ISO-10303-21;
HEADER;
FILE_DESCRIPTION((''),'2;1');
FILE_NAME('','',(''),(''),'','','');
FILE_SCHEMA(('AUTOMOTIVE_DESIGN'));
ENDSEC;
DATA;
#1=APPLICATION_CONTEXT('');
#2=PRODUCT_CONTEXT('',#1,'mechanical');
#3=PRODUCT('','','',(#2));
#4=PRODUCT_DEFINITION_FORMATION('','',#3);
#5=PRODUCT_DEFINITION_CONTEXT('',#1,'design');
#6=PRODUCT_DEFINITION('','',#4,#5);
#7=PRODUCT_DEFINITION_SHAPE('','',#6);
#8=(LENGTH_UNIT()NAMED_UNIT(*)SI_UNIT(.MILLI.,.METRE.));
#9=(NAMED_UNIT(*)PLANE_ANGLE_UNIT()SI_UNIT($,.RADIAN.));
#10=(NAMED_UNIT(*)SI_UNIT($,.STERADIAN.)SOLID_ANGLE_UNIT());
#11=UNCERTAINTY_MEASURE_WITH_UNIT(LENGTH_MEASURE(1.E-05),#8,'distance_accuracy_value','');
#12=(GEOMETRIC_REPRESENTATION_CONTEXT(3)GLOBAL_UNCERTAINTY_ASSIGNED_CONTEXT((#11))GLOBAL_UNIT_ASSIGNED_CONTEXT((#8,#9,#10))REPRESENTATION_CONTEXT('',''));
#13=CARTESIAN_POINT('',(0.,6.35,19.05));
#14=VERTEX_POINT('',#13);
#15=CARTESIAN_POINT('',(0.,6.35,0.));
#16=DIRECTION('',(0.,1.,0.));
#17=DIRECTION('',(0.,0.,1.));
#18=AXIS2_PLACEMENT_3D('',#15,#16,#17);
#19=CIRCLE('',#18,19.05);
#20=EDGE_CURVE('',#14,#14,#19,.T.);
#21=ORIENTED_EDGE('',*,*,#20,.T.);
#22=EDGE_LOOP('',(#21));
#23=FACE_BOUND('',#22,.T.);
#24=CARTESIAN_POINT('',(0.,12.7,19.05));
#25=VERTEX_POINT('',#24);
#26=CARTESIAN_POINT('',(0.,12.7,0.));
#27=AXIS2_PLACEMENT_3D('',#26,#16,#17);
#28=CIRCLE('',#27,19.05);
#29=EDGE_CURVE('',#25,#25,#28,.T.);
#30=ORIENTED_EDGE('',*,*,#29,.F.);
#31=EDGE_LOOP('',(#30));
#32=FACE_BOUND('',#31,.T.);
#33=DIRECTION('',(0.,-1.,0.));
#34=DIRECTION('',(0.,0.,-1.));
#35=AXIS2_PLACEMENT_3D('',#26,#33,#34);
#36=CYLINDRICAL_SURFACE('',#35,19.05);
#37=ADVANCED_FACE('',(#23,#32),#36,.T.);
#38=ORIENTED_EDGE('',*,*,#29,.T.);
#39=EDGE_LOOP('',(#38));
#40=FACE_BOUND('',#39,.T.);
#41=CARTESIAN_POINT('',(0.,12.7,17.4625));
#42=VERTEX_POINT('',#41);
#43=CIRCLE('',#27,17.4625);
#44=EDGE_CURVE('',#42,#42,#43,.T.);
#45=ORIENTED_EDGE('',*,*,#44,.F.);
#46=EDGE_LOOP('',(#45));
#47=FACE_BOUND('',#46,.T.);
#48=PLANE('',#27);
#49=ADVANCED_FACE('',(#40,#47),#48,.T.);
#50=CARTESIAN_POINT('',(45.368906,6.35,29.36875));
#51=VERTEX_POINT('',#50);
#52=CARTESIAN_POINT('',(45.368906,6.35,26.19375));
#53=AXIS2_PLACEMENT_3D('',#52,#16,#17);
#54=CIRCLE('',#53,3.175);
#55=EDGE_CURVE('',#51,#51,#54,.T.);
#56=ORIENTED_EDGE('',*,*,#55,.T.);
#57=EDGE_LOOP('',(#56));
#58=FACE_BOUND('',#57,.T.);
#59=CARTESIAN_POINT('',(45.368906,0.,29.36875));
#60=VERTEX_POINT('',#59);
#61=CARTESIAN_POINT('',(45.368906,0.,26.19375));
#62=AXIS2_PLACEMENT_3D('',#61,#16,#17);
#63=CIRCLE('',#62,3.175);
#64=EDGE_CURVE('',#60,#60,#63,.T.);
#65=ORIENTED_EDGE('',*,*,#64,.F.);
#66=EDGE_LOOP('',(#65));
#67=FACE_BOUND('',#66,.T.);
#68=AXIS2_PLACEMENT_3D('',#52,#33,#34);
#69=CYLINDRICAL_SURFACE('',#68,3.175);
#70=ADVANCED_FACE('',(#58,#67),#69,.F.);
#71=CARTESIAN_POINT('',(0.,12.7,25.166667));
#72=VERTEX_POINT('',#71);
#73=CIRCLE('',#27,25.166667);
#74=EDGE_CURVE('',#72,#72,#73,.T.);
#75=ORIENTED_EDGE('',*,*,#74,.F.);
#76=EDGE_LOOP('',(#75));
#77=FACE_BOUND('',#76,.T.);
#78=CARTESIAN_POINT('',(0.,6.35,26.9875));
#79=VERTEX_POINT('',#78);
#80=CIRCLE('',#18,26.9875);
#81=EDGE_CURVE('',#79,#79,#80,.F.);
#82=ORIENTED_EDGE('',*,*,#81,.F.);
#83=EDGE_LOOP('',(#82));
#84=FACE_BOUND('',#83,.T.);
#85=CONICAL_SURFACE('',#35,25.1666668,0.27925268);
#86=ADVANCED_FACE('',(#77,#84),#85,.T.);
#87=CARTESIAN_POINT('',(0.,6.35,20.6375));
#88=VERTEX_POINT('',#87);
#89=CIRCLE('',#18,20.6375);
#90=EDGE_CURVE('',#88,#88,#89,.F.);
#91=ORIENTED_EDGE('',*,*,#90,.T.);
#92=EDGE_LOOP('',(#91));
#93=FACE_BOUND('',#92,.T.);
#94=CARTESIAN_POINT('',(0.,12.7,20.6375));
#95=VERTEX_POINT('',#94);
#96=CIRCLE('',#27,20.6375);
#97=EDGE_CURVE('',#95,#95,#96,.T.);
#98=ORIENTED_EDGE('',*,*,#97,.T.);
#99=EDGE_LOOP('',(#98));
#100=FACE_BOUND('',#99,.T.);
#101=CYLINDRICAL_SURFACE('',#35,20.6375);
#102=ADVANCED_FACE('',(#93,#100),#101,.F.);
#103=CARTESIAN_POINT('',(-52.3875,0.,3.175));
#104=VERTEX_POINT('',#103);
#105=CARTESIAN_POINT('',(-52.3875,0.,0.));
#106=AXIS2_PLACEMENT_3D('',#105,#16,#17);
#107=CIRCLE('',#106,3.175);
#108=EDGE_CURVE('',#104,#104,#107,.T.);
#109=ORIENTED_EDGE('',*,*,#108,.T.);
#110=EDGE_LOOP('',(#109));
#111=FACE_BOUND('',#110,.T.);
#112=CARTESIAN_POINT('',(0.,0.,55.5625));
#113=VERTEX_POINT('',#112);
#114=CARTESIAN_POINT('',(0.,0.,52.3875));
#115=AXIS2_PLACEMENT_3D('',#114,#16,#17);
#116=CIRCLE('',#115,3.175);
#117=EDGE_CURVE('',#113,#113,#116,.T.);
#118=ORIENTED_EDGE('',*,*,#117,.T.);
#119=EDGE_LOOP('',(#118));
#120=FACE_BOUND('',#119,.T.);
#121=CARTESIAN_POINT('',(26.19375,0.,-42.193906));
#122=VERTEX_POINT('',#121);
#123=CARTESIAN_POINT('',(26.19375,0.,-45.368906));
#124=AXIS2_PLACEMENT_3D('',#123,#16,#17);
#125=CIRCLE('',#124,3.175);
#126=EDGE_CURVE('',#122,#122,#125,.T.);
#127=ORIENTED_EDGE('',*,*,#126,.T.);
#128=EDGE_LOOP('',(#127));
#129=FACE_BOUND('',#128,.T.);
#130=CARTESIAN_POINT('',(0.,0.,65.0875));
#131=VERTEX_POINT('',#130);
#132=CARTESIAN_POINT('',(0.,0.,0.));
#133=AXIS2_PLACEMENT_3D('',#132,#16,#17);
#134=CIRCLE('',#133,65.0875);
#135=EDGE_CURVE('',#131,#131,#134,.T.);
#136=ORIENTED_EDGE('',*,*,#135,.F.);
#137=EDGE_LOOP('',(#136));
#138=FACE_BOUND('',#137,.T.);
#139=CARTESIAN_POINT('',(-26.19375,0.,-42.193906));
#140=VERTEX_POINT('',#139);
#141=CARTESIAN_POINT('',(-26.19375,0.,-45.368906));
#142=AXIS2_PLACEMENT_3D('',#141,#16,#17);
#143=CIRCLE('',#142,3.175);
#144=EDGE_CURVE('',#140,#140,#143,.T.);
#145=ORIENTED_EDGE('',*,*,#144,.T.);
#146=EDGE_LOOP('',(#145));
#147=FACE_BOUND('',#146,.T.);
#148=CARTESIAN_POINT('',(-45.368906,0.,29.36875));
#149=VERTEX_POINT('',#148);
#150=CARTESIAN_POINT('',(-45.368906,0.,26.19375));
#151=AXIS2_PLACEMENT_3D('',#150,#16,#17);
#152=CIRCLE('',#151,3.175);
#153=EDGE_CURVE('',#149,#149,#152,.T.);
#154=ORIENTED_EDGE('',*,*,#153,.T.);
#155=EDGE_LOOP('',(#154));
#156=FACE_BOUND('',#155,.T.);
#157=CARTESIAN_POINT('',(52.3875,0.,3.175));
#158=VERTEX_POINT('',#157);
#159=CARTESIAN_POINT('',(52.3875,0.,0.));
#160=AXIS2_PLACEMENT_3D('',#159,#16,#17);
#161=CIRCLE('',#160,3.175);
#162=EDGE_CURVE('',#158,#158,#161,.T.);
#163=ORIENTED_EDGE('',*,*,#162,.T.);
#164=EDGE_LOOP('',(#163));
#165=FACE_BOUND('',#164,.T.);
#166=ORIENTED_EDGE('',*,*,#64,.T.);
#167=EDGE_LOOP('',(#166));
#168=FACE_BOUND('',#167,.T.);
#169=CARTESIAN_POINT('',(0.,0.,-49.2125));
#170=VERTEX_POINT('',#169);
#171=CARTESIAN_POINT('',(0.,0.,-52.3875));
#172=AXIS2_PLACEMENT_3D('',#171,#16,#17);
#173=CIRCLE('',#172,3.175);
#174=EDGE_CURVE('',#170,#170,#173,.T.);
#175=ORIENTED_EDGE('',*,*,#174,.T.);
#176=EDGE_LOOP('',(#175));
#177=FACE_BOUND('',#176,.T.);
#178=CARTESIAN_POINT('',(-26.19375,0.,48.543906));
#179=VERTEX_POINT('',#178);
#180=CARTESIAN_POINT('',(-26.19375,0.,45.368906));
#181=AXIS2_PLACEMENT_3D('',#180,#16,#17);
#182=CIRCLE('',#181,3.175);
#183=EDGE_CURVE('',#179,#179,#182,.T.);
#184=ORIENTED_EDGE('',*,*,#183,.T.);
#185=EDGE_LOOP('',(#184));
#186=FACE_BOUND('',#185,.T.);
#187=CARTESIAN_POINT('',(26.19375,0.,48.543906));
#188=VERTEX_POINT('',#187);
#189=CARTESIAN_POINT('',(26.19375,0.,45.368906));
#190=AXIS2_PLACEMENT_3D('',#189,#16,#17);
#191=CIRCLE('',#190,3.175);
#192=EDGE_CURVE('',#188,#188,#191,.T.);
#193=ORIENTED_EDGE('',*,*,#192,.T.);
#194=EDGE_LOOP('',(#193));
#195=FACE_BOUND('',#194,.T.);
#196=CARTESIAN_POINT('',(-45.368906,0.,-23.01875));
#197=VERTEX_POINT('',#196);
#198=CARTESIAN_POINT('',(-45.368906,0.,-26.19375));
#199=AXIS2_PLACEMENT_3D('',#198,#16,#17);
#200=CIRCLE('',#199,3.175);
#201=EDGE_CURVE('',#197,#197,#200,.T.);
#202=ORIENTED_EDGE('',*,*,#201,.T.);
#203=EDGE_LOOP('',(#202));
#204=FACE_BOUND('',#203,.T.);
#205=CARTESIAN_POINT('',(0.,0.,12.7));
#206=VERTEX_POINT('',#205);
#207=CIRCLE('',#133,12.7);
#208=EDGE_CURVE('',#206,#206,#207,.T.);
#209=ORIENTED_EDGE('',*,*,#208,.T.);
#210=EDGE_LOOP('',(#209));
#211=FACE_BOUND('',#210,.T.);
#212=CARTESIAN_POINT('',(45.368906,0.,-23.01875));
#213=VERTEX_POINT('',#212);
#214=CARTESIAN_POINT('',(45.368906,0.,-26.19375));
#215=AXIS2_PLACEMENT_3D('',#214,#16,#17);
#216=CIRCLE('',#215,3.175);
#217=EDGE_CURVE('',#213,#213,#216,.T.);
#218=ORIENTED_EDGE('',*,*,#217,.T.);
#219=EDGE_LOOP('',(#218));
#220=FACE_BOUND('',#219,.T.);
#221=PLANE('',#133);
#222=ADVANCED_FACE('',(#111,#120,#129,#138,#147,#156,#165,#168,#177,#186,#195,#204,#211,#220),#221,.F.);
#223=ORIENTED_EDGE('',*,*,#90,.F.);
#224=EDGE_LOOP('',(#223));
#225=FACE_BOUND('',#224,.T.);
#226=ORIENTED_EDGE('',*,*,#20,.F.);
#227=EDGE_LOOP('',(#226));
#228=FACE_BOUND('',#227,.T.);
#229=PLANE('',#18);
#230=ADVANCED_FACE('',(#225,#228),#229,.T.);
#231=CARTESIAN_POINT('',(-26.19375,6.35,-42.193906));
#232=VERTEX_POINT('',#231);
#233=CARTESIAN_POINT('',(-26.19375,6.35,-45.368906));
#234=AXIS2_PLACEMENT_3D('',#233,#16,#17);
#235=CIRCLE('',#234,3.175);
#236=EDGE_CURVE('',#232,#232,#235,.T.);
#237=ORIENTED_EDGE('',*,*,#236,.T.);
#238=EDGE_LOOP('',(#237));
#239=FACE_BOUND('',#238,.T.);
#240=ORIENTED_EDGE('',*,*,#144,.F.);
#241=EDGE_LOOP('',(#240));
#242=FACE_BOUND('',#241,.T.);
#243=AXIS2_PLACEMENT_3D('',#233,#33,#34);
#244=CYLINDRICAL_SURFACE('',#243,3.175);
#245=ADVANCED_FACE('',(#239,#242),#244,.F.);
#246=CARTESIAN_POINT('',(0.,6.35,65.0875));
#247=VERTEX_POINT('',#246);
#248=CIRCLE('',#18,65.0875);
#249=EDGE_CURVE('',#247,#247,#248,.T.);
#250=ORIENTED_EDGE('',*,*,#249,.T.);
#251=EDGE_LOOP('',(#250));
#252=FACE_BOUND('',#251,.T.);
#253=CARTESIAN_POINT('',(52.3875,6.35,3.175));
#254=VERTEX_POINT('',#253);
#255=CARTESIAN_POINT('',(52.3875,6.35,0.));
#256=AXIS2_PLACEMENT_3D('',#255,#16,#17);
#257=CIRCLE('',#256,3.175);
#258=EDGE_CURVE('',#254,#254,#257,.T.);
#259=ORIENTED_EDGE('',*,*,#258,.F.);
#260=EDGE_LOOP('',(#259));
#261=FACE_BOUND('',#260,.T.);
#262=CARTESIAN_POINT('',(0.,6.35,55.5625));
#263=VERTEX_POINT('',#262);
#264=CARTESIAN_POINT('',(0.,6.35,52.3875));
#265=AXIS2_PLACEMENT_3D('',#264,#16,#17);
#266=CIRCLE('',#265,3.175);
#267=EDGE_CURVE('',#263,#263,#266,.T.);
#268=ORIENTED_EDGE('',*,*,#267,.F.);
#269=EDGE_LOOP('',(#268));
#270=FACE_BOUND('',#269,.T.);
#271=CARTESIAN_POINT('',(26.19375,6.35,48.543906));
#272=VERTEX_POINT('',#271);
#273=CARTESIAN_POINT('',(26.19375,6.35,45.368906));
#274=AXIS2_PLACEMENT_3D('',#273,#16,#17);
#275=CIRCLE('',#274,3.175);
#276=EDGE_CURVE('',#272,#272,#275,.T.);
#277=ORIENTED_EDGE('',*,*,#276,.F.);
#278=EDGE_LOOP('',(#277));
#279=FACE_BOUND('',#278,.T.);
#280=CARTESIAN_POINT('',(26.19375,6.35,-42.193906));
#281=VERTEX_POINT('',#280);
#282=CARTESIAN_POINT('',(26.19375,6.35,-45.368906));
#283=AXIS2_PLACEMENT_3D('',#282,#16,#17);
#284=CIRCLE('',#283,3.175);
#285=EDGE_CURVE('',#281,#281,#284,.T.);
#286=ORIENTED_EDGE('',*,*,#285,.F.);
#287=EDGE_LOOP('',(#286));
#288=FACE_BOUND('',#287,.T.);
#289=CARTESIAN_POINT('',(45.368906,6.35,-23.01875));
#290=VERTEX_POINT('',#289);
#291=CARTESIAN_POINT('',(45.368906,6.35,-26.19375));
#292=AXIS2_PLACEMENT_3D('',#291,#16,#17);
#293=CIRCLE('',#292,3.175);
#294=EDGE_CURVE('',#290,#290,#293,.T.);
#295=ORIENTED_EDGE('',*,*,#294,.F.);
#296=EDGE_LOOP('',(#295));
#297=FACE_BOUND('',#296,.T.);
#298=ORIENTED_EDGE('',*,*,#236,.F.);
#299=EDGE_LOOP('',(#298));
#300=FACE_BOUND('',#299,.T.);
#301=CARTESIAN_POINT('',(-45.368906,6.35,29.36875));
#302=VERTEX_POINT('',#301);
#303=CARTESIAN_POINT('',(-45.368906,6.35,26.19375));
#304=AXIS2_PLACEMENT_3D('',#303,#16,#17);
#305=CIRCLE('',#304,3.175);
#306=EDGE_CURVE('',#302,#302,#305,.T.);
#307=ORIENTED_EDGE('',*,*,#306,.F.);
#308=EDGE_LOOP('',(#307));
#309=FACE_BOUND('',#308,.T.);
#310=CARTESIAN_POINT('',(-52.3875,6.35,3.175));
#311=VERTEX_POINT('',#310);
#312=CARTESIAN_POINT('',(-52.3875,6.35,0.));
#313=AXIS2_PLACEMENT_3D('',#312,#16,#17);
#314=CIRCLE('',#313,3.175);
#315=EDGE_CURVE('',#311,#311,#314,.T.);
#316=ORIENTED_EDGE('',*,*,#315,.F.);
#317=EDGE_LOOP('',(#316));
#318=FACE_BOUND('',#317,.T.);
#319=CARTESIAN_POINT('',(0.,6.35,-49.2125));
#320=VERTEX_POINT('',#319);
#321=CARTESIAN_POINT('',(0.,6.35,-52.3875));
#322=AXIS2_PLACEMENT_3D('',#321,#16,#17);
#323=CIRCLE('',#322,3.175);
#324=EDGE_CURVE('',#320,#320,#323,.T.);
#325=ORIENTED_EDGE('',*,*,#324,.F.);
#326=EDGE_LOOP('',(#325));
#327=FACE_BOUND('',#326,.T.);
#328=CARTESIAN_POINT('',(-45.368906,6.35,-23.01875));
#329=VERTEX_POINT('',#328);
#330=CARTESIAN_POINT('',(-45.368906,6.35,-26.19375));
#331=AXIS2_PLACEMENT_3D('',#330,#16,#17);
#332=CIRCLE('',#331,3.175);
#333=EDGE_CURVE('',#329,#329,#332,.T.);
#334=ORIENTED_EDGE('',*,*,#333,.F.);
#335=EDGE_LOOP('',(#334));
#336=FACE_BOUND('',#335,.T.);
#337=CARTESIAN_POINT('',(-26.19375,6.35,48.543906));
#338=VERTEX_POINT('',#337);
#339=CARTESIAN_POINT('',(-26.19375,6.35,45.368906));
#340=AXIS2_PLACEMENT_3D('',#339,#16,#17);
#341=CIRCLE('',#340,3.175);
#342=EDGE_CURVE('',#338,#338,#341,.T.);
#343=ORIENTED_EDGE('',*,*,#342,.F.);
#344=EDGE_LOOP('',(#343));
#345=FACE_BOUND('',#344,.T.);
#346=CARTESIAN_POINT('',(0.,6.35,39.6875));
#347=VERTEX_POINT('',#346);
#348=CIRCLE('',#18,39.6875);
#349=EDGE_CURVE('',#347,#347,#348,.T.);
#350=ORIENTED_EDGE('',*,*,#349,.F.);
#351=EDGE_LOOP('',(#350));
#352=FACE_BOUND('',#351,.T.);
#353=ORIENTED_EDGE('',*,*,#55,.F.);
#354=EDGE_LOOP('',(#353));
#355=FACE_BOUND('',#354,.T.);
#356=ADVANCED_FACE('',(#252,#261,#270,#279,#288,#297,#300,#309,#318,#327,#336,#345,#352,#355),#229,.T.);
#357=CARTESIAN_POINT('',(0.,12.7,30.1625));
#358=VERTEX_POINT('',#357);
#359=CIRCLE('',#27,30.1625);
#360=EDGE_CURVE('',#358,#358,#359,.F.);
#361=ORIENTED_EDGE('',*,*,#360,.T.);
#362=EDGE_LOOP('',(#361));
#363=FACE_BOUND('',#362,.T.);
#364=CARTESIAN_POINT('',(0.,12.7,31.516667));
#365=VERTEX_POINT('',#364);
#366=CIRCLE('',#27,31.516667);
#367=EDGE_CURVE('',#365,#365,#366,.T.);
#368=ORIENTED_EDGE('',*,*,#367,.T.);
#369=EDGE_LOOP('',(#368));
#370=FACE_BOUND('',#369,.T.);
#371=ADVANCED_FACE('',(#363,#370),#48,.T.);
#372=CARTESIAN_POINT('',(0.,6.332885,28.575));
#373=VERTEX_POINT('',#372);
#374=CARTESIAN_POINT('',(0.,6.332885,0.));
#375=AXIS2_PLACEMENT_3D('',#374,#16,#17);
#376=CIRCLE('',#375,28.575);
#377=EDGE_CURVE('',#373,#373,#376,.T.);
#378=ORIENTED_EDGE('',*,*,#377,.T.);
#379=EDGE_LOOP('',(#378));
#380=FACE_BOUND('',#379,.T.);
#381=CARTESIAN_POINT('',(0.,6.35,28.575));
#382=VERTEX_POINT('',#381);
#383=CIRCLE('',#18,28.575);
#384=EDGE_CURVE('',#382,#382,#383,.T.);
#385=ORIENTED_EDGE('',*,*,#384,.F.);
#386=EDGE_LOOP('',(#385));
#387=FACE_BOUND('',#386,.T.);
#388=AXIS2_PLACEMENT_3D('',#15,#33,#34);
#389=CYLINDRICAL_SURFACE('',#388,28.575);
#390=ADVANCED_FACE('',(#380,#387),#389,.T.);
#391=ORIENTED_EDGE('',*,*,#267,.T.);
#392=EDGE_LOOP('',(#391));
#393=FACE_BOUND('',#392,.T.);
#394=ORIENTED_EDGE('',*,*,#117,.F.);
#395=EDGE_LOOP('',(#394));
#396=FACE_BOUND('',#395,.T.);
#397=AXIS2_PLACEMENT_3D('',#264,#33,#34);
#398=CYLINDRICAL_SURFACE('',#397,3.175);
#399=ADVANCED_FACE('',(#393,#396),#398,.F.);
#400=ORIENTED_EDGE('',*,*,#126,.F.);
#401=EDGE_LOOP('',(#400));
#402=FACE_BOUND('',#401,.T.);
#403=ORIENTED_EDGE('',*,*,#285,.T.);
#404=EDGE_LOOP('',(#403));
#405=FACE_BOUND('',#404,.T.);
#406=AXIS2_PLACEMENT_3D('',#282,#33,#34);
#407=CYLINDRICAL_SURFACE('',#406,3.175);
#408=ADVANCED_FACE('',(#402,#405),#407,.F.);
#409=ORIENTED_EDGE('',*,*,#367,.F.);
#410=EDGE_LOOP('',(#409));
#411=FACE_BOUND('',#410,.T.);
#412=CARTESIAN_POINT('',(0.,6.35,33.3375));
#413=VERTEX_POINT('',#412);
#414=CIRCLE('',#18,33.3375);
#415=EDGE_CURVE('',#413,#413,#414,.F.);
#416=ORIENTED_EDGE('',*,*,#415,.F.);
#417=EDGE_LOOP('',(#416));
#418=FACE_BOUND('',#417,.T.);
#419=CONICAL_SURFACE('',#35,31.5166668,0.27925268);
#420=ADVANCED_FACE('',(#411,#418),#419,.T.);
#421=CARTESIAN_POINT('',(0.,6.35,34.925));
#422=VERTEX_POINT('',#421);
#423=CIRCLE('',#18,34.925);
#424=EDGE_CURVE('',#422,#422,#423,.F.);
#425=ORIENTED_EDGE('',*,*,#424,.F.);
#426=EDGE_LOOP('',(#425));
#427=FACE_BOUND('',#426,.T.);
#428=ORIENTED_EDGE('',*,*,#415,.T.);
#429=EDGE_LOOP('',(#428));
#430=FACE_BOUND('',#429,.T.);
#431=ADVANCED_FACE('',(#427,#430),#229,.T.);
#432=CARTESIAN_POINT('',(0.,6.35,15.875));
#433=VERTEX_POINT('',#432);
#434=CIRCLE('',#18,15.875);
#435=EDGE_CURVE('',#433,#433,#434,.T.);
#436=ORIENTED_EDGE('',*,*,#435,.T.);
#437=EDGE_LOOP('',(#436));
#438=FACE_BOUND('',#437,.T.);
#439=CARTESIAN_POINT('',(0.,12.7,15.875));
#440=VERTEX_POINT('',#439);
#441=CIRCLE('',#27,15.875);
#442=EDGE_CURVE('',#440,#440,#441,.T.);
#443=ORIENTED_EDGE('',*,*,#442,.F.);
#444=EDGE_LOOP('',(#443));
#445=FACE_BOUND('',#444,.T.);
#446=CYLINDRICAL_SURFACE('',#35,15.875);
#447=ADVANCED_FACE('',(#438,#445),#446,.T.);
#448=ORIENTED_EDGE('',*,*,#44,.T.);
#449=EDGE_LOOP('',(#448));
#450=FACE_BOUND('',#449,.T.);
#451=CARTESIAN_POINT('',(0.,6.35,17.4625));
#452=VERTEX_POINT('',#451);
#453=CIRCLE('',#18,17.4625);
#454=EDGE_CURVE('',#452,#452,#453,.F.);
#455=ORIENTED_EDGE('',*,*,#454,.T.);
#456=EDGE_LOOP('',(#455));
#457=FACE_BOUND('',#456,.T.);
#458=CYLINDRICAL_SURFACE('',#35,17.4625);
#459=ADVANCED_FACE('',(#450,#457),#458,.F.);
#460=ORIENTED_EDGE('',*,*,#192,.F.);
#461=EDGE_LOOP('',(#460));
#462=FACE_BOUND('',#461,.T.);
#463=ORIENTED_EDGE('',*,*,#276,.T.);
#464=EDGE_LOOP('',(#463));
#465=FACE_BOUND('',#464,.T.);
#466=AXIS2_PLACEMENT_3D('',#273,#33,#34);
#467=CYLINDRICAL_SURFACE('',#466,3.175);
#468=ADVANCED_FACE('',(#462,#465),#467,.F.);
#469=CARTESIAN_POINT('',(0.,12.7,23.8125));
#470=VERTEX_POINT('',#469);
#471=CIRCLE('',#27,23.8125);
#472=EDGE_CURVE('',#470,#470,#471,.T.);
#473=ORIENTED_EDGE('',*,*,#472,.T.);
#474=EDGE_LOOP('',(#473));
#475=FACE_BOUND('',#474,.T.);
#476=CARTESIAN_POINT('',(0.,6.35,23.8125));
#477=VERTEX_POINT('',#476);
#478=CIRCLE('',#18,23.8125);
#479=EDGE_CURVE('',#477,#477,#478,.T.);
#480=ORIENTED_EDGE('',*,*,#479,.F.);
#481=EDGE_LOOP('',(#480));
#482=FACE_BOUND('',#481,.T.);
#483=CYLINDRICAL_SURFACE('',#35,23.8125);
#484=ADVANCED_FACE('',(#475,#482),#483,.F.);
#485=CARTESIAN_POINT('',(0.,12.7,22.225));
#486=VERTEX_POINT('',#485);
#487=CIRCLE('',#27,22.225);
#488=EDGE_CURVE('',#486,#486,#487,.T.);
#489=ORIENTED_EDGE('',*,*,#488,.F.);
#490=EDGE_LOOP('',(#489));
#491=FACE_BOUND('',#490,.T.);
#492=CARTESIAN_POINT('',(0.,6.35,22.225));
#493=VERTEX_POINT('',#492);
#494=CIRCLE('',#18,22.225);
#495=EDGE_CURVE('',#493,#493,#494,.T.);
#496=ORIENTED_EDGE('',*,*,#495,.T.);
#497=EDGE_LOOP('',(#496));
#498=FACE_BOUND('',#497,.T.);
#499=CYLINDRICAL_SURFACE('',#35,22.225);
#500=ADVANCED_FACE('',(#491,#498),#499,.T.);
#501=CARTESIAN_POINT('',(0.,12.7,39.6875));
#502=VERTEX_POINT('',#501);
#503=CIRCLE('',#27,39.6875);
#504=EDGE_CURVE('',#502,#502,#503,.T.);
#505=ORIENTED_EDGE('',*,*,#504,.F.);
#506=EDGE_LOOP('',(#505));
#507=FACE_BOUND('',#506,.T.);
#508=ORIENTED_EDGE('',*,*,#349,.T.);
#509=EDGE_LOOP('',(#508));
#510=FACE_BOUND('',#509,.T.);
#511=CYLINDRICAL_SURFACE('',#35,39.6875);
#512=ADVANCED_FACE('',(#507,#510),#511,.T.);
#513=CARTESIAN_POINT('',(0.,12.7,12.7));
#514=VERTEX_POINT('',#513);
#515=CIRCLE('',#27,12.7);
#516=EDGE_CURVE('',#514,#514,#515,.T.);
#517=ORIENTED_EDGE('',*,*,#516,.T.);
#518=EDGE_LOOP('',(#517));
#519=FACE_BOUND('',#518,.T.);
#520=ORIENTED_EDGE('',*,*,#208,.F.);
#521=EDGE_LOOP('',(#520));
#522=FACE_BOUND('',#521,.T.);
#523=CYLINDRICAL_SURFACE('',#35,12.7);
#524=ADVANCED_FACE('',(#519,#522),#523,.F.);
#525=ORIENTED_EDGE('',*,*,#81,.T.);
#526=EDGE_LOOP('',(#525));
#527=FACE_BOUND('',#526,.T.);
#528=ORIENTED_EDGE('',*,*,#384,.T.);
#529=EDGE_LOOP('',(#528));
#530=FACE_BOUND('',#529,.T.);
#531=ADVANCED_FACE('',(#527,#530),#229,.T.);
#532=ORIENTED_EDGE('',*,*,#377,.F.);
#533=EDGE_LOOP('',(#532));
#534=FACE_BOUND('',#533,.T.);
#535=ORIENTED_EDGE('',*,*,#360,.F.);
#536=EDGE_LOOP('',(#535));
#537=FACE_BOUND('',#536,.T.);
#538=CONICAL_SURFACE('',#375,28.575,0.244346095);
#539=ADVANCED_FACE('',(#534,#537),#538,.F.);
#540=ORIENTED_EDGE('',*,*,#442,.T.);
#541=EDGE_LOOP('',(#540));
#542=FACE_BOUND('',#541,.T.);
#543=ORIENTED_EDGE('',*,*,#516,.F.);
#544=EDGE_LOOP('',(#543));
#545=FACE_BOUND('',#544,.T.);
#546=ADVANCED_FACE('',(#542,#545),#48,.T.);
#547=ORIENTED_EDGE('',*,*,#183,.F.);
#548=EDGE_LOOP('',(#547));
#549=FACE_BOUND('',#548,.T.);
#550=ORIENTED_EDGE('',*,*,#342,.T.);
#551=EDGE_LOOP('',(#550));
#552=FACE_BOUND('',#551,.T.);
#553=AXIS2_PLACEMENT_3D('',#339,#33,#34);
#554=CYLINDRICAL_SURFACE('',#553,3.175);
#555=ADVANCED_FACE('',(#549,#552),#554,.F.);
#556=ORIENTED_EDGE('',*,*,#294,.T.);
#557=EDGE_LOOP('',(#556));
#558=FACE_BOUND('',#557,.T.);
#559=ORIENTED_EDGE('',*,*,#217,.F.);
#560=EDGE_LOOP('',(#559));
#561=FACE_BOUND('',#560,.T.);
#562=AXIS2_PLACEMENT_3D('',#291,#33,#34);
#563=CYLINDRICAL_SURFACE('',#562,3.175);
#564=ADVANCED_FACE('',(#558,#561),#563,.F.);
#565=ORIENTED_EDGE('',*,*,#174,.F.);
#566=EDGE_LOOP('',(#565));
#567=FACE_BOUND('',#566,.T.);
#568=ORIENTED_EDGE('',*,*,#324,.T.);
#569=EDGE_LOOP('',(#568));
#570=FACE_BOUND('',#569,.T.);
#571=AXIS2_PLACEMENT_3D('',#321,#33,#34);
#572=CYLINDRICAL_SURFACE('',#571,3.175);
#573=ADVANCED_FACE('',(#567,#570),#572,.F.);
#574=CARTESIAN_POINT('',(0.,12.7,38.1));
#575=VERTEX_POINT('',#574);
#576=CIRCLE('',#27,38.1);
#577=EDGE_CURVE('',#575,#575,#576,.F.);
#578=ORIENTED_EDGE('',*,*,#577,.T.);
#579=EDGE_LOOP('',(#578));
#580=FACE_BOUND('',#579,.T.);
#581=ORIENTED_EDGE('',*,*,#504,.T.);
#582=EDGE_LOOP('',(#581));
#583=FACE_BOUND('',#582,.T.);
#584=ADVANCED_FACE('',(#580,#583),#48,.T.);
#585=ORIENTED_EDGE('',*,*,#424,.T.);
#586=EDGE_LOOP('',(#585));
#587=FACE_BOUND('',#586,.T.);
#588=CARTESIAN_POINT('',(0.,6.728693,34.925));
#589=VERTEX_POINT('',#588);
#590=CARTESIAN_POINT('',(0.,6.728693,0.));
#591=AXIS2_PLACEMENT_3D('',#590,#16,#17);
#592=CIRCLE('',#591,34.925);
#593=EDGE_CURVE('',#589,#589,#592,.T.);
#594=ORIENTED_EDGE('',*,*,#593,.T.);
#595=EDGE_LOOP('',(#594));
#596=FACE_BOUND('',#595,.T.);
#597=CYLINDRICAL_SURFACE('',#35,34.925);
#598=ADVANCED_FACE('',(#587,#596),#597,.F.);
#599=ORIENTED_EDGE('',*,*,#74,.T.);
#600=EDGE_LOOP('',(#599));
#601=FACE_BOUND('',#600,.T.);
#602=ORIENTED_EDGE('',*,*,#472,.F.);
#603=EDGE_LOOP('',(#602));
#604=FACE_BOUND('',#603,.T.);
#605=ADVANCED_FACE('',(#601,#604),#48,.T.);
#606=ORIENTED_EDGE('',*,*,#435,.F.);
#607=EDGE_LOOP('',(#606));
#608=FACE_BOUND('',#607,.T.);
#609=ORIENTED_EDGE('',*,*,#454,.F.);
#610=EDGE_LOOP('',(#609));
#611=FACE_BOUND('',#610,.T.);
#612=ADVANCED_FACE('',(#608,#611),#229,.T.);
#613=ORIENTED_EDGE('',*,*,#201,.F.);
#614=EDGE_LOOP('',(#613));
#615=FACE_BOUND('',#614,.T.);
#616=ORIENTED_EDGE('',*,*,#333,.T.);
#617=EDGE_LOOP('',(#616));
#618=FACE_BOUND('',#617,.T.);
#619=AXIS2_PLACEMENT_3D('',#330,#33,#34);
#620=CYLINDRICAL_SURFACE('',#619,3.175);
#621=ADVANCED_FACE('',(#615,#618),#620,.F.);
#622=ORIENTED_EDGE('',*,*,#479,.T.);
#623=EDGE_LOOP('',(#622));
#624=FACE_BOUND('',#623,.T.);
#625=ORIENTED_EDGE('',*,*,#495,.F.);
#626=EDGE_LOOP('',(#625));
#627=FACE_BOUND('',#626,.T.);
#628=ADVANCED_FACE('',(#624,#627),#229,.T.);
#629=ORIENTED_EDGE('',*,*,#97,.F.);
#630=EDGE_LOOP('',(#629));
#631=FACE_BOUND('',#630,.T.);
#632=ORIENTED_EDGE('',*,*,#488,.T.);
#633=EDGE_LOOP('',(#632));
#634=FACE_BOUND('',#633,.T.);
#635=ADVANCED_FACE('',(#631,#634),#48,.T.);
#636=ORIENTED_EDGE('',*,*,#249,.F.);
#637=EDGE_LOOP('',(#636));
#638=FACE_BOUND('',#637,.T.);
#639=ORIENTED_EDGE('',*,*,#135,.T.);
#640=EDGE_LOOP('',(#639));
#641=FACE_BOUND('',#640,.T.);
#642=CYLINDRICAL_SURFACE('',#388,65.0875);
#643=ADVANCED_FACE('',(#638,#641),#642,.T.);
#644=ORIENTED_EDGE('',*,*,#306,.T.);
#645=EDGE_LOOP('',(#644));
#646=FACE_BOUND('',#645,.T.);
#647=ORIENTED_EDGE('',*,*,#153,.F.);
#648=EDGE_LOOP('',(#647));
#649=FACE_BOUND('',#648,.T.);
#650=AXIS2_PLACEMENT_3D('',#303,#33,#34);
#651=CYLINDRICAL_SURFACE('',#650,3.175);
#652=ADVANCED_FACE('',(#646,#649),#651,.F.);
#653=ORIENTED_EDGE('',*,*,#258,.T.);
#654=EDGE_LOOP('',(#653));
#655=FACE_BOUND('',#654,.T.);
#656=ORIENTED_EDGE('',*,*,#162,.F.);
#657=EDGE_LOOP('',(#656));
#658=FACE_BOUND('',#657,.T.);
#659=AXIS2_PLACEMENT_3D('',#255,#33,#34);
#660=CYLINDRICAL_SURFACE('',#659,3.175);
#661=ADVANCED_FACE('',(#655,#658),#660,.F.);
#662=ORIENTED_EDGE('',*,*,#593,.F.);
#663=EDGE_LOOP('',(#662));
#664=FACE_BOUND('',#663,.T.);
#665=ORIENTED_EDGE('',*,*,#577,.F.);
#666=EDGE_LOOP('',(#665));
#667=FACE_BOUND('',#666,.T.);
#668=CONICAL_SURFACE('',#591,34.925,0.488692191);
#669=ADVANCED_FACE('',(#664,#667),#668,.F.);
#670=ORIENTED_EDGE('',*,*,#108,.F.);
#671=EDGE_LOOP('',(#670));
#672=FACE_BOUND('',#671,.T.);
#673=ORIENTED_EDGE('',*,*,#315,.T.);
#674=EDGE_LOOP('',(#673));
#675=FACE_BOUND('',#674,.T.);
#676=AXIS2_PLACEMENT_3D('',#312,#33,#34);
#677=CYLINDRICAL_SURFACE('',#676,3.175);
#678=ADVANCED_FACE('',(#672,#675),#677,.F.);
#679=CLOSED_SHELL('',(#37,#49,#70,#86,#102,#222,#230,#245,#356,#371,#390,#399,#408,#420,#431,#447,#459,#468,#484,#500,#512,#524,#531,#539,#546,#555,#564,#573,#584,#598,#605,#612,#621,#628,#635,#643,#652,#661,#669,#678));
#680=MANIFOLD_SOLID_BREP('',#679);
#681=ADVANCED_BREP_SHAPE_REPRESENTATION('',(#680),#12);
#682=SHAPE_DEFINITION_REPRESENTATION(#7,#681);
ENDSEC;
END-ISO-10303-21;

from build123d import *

# Parameters (mm, degrees)
SKETCH1_R             = 15.875
SKETCH1_R_2           = 12.7
BOSS_EXTRUDE2_DEPTH   = 12.7
SKETCH1_R_3           = 26.9875
SKETCH1_R_4           = 23.8125
BOSS_EXTRUDE2_2_DEPTH = 12.7
SKETCH1_R_5           = 33.3375
SKETCH1_R_6           = 28.575
BOSS_EXTRUDE2_3_DEPTH = 12.7
SKETCH1_R_7           = 39.6875
SKETCH1_R_8           = 34.925
BOSS_EXTRUDE2_4_DEPTH = 12.7
CHAMFER1_SIZE         = 3.175
CHAMFER1_SIZE2        = 5.971306527
CHAMFER2_SIZE         = 6.35
CHAMFER2_SIZE2        = 1.8208332
CHAMFER3_SIZE         = 1.5875
CHAMFER3_SIZE2        = 6.367114732
CHAMFER4_SIZE         = 6.35
CHAMFER4_SIZE2        = 1.8208332
SKETCH1_20_R          = 65.0875
SKETCH1_20_R_2        = 39.6875
SKETCH1_20_R_3        = 3.175
SKETCH1_20_R_4        = 34.925
SKETCH1_20_R_5        = 33.3375
SKETCH1_20_R_6        = 28.575
SKETCH1_20_R_7        = 26.9875
SKETCH1_20_R_8        = 23.8125
SKETCH1_20_R_9        = 22.225
SKETCH1_20_R_10       = 20.6375
SKETCH1_20_R_11       = 19.05
SKETCH1_20_R_12       = 17.4625
SKETCH1_20_R_13       = 15.875
BOSS_EXTRUDE3_DEPTH   = 6.35
SKETCH1_21_R          = 22.225
SKETCH1_21_R_2        = 20.6375
SKETCH1_21_R_3        = 19.05
SKETCH1_21_R_4        = 17.4625
BOSS_EXTRUDE4_DEPTH   = 12.7


with BuildPart() as part:
    # Sketch1 → Boss-Extrude2 (new body)
    with BuildSketch(Plane(origin=(0, 0, 0), x_dir=(1, 0, 0), z_dir=(0, 1, 0))):
        Circle(SKETCH1_R)
        Circle(SKETCH1_R_2, mode=Mode.SUBTRACT)
    extrude(amount=BOSS_EXTRUDE2_DEPTH)



with BuildPart() as body_2:
    # Sketch1 → Boss-Extrude2 2 (new body)
    with BuildSketch(Plane(origin=(0, 0, 0), x_dir=(1, 0, 0), z_dir=(0, 1, 0))):
        Circle(SKETCH1_R_3)
        Circle(SKETCH1_R_4, mode=Mode.SUBTRACT)
    extrude(amount=BOSS_EXTRUDE2_2_DEPTH)

    # Chamfer4
    chamfer4_edges = [body_2.edges().sort_by_distance(p)[0] for p in [
        (-26.9875, 12.7, 0),
    ]]
    chamfer4_side = [body_2.faces().sort_by_distance(p)[0] for p in [
        (-26.9875, 6.35, 0),
    ]]
    chamfer(chamfer4_edges, length=CHAMFER4_SIZE, length2=CHAMFER4_SIZE2, reference=chamfer4_side[0])


with BuildPart() as body_3:
    # Sketch1 → Boss-Extrude2 3 (new body)
    with BuildSketch(Plane(origin=(0, 0, 0), x_dir=(1, 0, 0), z_dir=(0, 1, 0))):
        Circle(SKETCH1_R_5)
        Circle(SKETCH1_R_6, mode=Mode.SUBTRACT)
    extrude(amount=BOSS_EXTRUDE2_3_DEPTH)

    # Chamfer2
    chamfer2_edges = [body_3.edges().sort_by_distance(p)[0] for p in [
        (-33.3375, 12.7, 0),
    ]]
    chamfer2_side = [body_3.faces().sort_by_distance(p)[0] for p in [
        (-33.3375, 6.35, 0),
    ]]
    chamfer(chamfer2_edges, length=CHAMFER2_SIZE, length2=CHAMFER2_SIZE2, reference=chamfer2_side[0])

    # Chamfer3
    chamfer3_edges = [body_3.edges().sort_by_distance(p)[0] for p in [
        (-28.575, 12.7, 0),
    ]]
    chamfer3_side = [body_3.faces().sort_by_distance(p)[0] for p in [
        (-30.625240848, 12.7, 0),
    ]]
    chamfer(chamfer3_edges, length=CHAMFER3_SIZE, length2=CHAMFER3_SIZE2, reference=chamfer3_side[0])


with BuildPart() as body_4:
    # Sketch1 → Boss-Extrude2 4 (new body)
    with BuildSketch(Plane(origin=(0, 0, 0), x_dir=(1, 0, 0), z_dir=(0, 1, 0))):
        Circle(SKETCH1_R_7)
        Circle(SKETCH1_R_8, mode=Mode.SUBTRACT)
    extrude(amount=BOSS_EXTRUDE2_4_DEPTH)

    # Chamfer1
    chamfer1_edges = [body_4.edges().sort_by_distance(p)[0] for p in [
        (-34.925, 12.7, 0),
    ]]
    chamfer1_side = [body_4.faces().sort_by_distance(p)[0] for p in [
        (-38.564967985, 12.7, 0),
    ]]
    chamfer(chamfer1_edges, length=CHAMFER1_SIZE, length2=CHAMFER1_SIZE2, reference=chamfer1_side[0])


with BuildPart() as part_1:
    add(part.part)

    add(body_2.part)  # Boss-Extrude3 merges body 2

    add(body_3.part)  # Boss-Extrude3 merges body 3

    add(body_4.part)  # Boss-Extrude3 merges body 4
    # Sketch1<20> → Boss-Extrude3 (add)
    # profile 1 of 6: a face of its own
    with BuildSketch(Plane(origin=(0, 0, 0), x_dir=(1, 0, 0), z_dir=(0, 1, 0))):
        Circle(SKETCH1_20_R)
        Circle(SKETCH1_20_R_2, mode=Mode.SUBTRACT)
        with Locations((-26.19375, -45.368905841)):
            Circle(SKETCH1_20_R_3, mode=Mode.SUBTRACT)
        with Locations((-45.368905841, -26.19375)):
            Circle(SKETCH1_20_R_3, mode=Mode.SUBTRACT)
        with Locations((-52.3875, 0)):
            Circle(SKETCH1_20_R_3, mode=Mode.SUBTRACT)
        with Locations((0, -52.3875)):
            Circle(SKETCH1_20_R_3, mode=Mode.SUBTRACT)
        with Locations((26.19375, -45.368905841)):
            Circle(SKETCH1_20_R_3, mode=Mode.SUBTRACT)
        with Locations((45.368905841, -26.19375)):
            Circle(SKETCH1_20_R_3, mode=Mode.SUBTRACT)
        with Locations((-45.368905841, 26.19375)):
            Circle(SKETCH1_20_R_3, mode=Mode.SUBTRACT)
        with Locations((-26.19375, 45.368905841)):
            Circle(SKETCH1_20_R_3, mode=Mode.SUBTRACT)
        with Locations((0, 52.3875)):
            Circle(SKETCH1_20_R_3, mode=Mode.SUBTRACT)
        with Locations((45.368905841, 26.19375)):
            Circle(SKETCH1_20_R_3, mode=Mode.SUBTRACT)
        with Locations((26.19375, 45.368905841)):
            Circle(SKETCH1_20_R_3, mode=Mode.SUBTRACT)
        with Locations((52.3875, 0)):
            Circle(SKETCH1_20_R_3, mode=Mode.SUBTRACT)
    # profile 2 of 6: a face of its own
    with BuildSketch(Plane(origin=(0, 0, 0), x_dir=(1, 0, 0), z_dir=(0, 1, 0))):
        Circle(SKETCH1_20_R_4)
        Circle(SKETCH1_20_R_5, mode=Mode.SUBTRACT)
    # profile 3 of 6: a face of its own
    with BuildSketch(Plane(origin=(0, 0, 0), x_dir=(1, 0, 0), z_dir=(0, 1, 0))):
        Circle(SKETCH1_20_R_6)
        Circle(SKETCH1_20_R_7, mode=Mode.SUBTRACT)
    # profile 4 of 6: a face of its own
    with BuildSketch(Plane(origin=(0, 0, 0), x_dir=(1, 0, 0), z_dir=(0, 1, 0))):
        Circle(SKETCH1_20_R_8)
        Circle(SKETCH1_20_R_9, mode=Mode.SUBTRACT)
    # profile 5 of 6: a face of its own
    with BuildSketch(Plane(origin=(0, 0, 0), x_dir=(1, 0, 0), z_dir=(0, 1, 0))):
        Circle(SKETCH1_20_R_10)
        Circle(SKETCH1_20_R_11, mode=Mode.SUBTRACT)
    # profile 6 of 6: a face of its own
    with BuildSketch(Plane(origin=(0, 0, 0), x_dir=(1, 0, 0), z_dir=(0, 1, 0))):
        Circle(SKETCH1_20_R_12)
        Circle(SKETCH1_20_R_13, mode=Mode.SUBTRACT)
    extrude(amount=BOSS_EXTRUDE3_DEPTH)

    # Sketch1<21> → Boss-Extrude4 (add)
    # profile 1 of 2: a face of its own
    with BuildSketch(Plane(origin=(0, 0, 0), x_dir=(1, 0, 0), z_dir=(0, 1, 0))):
        Circle(SKETCH1_21_R)
        Circle(SKETCH1_21_R_2, mode=Mode.SUBTRACT)
    # profile 2 of 2: a face of its own
    with BuildSketch(Plane(origin=(0, 0, 0), x_dir=(1, 0, 0), z_dir=(0, 1, 0))):
        Circle(SKETCH1_21_R_3)
        Circle(SKETCH1_21_R_4, mode=Mode.SUBTRACT)
    extrude(amount=BOSS_EXTRUDE4_DEPTH)


solid = part_1.part
